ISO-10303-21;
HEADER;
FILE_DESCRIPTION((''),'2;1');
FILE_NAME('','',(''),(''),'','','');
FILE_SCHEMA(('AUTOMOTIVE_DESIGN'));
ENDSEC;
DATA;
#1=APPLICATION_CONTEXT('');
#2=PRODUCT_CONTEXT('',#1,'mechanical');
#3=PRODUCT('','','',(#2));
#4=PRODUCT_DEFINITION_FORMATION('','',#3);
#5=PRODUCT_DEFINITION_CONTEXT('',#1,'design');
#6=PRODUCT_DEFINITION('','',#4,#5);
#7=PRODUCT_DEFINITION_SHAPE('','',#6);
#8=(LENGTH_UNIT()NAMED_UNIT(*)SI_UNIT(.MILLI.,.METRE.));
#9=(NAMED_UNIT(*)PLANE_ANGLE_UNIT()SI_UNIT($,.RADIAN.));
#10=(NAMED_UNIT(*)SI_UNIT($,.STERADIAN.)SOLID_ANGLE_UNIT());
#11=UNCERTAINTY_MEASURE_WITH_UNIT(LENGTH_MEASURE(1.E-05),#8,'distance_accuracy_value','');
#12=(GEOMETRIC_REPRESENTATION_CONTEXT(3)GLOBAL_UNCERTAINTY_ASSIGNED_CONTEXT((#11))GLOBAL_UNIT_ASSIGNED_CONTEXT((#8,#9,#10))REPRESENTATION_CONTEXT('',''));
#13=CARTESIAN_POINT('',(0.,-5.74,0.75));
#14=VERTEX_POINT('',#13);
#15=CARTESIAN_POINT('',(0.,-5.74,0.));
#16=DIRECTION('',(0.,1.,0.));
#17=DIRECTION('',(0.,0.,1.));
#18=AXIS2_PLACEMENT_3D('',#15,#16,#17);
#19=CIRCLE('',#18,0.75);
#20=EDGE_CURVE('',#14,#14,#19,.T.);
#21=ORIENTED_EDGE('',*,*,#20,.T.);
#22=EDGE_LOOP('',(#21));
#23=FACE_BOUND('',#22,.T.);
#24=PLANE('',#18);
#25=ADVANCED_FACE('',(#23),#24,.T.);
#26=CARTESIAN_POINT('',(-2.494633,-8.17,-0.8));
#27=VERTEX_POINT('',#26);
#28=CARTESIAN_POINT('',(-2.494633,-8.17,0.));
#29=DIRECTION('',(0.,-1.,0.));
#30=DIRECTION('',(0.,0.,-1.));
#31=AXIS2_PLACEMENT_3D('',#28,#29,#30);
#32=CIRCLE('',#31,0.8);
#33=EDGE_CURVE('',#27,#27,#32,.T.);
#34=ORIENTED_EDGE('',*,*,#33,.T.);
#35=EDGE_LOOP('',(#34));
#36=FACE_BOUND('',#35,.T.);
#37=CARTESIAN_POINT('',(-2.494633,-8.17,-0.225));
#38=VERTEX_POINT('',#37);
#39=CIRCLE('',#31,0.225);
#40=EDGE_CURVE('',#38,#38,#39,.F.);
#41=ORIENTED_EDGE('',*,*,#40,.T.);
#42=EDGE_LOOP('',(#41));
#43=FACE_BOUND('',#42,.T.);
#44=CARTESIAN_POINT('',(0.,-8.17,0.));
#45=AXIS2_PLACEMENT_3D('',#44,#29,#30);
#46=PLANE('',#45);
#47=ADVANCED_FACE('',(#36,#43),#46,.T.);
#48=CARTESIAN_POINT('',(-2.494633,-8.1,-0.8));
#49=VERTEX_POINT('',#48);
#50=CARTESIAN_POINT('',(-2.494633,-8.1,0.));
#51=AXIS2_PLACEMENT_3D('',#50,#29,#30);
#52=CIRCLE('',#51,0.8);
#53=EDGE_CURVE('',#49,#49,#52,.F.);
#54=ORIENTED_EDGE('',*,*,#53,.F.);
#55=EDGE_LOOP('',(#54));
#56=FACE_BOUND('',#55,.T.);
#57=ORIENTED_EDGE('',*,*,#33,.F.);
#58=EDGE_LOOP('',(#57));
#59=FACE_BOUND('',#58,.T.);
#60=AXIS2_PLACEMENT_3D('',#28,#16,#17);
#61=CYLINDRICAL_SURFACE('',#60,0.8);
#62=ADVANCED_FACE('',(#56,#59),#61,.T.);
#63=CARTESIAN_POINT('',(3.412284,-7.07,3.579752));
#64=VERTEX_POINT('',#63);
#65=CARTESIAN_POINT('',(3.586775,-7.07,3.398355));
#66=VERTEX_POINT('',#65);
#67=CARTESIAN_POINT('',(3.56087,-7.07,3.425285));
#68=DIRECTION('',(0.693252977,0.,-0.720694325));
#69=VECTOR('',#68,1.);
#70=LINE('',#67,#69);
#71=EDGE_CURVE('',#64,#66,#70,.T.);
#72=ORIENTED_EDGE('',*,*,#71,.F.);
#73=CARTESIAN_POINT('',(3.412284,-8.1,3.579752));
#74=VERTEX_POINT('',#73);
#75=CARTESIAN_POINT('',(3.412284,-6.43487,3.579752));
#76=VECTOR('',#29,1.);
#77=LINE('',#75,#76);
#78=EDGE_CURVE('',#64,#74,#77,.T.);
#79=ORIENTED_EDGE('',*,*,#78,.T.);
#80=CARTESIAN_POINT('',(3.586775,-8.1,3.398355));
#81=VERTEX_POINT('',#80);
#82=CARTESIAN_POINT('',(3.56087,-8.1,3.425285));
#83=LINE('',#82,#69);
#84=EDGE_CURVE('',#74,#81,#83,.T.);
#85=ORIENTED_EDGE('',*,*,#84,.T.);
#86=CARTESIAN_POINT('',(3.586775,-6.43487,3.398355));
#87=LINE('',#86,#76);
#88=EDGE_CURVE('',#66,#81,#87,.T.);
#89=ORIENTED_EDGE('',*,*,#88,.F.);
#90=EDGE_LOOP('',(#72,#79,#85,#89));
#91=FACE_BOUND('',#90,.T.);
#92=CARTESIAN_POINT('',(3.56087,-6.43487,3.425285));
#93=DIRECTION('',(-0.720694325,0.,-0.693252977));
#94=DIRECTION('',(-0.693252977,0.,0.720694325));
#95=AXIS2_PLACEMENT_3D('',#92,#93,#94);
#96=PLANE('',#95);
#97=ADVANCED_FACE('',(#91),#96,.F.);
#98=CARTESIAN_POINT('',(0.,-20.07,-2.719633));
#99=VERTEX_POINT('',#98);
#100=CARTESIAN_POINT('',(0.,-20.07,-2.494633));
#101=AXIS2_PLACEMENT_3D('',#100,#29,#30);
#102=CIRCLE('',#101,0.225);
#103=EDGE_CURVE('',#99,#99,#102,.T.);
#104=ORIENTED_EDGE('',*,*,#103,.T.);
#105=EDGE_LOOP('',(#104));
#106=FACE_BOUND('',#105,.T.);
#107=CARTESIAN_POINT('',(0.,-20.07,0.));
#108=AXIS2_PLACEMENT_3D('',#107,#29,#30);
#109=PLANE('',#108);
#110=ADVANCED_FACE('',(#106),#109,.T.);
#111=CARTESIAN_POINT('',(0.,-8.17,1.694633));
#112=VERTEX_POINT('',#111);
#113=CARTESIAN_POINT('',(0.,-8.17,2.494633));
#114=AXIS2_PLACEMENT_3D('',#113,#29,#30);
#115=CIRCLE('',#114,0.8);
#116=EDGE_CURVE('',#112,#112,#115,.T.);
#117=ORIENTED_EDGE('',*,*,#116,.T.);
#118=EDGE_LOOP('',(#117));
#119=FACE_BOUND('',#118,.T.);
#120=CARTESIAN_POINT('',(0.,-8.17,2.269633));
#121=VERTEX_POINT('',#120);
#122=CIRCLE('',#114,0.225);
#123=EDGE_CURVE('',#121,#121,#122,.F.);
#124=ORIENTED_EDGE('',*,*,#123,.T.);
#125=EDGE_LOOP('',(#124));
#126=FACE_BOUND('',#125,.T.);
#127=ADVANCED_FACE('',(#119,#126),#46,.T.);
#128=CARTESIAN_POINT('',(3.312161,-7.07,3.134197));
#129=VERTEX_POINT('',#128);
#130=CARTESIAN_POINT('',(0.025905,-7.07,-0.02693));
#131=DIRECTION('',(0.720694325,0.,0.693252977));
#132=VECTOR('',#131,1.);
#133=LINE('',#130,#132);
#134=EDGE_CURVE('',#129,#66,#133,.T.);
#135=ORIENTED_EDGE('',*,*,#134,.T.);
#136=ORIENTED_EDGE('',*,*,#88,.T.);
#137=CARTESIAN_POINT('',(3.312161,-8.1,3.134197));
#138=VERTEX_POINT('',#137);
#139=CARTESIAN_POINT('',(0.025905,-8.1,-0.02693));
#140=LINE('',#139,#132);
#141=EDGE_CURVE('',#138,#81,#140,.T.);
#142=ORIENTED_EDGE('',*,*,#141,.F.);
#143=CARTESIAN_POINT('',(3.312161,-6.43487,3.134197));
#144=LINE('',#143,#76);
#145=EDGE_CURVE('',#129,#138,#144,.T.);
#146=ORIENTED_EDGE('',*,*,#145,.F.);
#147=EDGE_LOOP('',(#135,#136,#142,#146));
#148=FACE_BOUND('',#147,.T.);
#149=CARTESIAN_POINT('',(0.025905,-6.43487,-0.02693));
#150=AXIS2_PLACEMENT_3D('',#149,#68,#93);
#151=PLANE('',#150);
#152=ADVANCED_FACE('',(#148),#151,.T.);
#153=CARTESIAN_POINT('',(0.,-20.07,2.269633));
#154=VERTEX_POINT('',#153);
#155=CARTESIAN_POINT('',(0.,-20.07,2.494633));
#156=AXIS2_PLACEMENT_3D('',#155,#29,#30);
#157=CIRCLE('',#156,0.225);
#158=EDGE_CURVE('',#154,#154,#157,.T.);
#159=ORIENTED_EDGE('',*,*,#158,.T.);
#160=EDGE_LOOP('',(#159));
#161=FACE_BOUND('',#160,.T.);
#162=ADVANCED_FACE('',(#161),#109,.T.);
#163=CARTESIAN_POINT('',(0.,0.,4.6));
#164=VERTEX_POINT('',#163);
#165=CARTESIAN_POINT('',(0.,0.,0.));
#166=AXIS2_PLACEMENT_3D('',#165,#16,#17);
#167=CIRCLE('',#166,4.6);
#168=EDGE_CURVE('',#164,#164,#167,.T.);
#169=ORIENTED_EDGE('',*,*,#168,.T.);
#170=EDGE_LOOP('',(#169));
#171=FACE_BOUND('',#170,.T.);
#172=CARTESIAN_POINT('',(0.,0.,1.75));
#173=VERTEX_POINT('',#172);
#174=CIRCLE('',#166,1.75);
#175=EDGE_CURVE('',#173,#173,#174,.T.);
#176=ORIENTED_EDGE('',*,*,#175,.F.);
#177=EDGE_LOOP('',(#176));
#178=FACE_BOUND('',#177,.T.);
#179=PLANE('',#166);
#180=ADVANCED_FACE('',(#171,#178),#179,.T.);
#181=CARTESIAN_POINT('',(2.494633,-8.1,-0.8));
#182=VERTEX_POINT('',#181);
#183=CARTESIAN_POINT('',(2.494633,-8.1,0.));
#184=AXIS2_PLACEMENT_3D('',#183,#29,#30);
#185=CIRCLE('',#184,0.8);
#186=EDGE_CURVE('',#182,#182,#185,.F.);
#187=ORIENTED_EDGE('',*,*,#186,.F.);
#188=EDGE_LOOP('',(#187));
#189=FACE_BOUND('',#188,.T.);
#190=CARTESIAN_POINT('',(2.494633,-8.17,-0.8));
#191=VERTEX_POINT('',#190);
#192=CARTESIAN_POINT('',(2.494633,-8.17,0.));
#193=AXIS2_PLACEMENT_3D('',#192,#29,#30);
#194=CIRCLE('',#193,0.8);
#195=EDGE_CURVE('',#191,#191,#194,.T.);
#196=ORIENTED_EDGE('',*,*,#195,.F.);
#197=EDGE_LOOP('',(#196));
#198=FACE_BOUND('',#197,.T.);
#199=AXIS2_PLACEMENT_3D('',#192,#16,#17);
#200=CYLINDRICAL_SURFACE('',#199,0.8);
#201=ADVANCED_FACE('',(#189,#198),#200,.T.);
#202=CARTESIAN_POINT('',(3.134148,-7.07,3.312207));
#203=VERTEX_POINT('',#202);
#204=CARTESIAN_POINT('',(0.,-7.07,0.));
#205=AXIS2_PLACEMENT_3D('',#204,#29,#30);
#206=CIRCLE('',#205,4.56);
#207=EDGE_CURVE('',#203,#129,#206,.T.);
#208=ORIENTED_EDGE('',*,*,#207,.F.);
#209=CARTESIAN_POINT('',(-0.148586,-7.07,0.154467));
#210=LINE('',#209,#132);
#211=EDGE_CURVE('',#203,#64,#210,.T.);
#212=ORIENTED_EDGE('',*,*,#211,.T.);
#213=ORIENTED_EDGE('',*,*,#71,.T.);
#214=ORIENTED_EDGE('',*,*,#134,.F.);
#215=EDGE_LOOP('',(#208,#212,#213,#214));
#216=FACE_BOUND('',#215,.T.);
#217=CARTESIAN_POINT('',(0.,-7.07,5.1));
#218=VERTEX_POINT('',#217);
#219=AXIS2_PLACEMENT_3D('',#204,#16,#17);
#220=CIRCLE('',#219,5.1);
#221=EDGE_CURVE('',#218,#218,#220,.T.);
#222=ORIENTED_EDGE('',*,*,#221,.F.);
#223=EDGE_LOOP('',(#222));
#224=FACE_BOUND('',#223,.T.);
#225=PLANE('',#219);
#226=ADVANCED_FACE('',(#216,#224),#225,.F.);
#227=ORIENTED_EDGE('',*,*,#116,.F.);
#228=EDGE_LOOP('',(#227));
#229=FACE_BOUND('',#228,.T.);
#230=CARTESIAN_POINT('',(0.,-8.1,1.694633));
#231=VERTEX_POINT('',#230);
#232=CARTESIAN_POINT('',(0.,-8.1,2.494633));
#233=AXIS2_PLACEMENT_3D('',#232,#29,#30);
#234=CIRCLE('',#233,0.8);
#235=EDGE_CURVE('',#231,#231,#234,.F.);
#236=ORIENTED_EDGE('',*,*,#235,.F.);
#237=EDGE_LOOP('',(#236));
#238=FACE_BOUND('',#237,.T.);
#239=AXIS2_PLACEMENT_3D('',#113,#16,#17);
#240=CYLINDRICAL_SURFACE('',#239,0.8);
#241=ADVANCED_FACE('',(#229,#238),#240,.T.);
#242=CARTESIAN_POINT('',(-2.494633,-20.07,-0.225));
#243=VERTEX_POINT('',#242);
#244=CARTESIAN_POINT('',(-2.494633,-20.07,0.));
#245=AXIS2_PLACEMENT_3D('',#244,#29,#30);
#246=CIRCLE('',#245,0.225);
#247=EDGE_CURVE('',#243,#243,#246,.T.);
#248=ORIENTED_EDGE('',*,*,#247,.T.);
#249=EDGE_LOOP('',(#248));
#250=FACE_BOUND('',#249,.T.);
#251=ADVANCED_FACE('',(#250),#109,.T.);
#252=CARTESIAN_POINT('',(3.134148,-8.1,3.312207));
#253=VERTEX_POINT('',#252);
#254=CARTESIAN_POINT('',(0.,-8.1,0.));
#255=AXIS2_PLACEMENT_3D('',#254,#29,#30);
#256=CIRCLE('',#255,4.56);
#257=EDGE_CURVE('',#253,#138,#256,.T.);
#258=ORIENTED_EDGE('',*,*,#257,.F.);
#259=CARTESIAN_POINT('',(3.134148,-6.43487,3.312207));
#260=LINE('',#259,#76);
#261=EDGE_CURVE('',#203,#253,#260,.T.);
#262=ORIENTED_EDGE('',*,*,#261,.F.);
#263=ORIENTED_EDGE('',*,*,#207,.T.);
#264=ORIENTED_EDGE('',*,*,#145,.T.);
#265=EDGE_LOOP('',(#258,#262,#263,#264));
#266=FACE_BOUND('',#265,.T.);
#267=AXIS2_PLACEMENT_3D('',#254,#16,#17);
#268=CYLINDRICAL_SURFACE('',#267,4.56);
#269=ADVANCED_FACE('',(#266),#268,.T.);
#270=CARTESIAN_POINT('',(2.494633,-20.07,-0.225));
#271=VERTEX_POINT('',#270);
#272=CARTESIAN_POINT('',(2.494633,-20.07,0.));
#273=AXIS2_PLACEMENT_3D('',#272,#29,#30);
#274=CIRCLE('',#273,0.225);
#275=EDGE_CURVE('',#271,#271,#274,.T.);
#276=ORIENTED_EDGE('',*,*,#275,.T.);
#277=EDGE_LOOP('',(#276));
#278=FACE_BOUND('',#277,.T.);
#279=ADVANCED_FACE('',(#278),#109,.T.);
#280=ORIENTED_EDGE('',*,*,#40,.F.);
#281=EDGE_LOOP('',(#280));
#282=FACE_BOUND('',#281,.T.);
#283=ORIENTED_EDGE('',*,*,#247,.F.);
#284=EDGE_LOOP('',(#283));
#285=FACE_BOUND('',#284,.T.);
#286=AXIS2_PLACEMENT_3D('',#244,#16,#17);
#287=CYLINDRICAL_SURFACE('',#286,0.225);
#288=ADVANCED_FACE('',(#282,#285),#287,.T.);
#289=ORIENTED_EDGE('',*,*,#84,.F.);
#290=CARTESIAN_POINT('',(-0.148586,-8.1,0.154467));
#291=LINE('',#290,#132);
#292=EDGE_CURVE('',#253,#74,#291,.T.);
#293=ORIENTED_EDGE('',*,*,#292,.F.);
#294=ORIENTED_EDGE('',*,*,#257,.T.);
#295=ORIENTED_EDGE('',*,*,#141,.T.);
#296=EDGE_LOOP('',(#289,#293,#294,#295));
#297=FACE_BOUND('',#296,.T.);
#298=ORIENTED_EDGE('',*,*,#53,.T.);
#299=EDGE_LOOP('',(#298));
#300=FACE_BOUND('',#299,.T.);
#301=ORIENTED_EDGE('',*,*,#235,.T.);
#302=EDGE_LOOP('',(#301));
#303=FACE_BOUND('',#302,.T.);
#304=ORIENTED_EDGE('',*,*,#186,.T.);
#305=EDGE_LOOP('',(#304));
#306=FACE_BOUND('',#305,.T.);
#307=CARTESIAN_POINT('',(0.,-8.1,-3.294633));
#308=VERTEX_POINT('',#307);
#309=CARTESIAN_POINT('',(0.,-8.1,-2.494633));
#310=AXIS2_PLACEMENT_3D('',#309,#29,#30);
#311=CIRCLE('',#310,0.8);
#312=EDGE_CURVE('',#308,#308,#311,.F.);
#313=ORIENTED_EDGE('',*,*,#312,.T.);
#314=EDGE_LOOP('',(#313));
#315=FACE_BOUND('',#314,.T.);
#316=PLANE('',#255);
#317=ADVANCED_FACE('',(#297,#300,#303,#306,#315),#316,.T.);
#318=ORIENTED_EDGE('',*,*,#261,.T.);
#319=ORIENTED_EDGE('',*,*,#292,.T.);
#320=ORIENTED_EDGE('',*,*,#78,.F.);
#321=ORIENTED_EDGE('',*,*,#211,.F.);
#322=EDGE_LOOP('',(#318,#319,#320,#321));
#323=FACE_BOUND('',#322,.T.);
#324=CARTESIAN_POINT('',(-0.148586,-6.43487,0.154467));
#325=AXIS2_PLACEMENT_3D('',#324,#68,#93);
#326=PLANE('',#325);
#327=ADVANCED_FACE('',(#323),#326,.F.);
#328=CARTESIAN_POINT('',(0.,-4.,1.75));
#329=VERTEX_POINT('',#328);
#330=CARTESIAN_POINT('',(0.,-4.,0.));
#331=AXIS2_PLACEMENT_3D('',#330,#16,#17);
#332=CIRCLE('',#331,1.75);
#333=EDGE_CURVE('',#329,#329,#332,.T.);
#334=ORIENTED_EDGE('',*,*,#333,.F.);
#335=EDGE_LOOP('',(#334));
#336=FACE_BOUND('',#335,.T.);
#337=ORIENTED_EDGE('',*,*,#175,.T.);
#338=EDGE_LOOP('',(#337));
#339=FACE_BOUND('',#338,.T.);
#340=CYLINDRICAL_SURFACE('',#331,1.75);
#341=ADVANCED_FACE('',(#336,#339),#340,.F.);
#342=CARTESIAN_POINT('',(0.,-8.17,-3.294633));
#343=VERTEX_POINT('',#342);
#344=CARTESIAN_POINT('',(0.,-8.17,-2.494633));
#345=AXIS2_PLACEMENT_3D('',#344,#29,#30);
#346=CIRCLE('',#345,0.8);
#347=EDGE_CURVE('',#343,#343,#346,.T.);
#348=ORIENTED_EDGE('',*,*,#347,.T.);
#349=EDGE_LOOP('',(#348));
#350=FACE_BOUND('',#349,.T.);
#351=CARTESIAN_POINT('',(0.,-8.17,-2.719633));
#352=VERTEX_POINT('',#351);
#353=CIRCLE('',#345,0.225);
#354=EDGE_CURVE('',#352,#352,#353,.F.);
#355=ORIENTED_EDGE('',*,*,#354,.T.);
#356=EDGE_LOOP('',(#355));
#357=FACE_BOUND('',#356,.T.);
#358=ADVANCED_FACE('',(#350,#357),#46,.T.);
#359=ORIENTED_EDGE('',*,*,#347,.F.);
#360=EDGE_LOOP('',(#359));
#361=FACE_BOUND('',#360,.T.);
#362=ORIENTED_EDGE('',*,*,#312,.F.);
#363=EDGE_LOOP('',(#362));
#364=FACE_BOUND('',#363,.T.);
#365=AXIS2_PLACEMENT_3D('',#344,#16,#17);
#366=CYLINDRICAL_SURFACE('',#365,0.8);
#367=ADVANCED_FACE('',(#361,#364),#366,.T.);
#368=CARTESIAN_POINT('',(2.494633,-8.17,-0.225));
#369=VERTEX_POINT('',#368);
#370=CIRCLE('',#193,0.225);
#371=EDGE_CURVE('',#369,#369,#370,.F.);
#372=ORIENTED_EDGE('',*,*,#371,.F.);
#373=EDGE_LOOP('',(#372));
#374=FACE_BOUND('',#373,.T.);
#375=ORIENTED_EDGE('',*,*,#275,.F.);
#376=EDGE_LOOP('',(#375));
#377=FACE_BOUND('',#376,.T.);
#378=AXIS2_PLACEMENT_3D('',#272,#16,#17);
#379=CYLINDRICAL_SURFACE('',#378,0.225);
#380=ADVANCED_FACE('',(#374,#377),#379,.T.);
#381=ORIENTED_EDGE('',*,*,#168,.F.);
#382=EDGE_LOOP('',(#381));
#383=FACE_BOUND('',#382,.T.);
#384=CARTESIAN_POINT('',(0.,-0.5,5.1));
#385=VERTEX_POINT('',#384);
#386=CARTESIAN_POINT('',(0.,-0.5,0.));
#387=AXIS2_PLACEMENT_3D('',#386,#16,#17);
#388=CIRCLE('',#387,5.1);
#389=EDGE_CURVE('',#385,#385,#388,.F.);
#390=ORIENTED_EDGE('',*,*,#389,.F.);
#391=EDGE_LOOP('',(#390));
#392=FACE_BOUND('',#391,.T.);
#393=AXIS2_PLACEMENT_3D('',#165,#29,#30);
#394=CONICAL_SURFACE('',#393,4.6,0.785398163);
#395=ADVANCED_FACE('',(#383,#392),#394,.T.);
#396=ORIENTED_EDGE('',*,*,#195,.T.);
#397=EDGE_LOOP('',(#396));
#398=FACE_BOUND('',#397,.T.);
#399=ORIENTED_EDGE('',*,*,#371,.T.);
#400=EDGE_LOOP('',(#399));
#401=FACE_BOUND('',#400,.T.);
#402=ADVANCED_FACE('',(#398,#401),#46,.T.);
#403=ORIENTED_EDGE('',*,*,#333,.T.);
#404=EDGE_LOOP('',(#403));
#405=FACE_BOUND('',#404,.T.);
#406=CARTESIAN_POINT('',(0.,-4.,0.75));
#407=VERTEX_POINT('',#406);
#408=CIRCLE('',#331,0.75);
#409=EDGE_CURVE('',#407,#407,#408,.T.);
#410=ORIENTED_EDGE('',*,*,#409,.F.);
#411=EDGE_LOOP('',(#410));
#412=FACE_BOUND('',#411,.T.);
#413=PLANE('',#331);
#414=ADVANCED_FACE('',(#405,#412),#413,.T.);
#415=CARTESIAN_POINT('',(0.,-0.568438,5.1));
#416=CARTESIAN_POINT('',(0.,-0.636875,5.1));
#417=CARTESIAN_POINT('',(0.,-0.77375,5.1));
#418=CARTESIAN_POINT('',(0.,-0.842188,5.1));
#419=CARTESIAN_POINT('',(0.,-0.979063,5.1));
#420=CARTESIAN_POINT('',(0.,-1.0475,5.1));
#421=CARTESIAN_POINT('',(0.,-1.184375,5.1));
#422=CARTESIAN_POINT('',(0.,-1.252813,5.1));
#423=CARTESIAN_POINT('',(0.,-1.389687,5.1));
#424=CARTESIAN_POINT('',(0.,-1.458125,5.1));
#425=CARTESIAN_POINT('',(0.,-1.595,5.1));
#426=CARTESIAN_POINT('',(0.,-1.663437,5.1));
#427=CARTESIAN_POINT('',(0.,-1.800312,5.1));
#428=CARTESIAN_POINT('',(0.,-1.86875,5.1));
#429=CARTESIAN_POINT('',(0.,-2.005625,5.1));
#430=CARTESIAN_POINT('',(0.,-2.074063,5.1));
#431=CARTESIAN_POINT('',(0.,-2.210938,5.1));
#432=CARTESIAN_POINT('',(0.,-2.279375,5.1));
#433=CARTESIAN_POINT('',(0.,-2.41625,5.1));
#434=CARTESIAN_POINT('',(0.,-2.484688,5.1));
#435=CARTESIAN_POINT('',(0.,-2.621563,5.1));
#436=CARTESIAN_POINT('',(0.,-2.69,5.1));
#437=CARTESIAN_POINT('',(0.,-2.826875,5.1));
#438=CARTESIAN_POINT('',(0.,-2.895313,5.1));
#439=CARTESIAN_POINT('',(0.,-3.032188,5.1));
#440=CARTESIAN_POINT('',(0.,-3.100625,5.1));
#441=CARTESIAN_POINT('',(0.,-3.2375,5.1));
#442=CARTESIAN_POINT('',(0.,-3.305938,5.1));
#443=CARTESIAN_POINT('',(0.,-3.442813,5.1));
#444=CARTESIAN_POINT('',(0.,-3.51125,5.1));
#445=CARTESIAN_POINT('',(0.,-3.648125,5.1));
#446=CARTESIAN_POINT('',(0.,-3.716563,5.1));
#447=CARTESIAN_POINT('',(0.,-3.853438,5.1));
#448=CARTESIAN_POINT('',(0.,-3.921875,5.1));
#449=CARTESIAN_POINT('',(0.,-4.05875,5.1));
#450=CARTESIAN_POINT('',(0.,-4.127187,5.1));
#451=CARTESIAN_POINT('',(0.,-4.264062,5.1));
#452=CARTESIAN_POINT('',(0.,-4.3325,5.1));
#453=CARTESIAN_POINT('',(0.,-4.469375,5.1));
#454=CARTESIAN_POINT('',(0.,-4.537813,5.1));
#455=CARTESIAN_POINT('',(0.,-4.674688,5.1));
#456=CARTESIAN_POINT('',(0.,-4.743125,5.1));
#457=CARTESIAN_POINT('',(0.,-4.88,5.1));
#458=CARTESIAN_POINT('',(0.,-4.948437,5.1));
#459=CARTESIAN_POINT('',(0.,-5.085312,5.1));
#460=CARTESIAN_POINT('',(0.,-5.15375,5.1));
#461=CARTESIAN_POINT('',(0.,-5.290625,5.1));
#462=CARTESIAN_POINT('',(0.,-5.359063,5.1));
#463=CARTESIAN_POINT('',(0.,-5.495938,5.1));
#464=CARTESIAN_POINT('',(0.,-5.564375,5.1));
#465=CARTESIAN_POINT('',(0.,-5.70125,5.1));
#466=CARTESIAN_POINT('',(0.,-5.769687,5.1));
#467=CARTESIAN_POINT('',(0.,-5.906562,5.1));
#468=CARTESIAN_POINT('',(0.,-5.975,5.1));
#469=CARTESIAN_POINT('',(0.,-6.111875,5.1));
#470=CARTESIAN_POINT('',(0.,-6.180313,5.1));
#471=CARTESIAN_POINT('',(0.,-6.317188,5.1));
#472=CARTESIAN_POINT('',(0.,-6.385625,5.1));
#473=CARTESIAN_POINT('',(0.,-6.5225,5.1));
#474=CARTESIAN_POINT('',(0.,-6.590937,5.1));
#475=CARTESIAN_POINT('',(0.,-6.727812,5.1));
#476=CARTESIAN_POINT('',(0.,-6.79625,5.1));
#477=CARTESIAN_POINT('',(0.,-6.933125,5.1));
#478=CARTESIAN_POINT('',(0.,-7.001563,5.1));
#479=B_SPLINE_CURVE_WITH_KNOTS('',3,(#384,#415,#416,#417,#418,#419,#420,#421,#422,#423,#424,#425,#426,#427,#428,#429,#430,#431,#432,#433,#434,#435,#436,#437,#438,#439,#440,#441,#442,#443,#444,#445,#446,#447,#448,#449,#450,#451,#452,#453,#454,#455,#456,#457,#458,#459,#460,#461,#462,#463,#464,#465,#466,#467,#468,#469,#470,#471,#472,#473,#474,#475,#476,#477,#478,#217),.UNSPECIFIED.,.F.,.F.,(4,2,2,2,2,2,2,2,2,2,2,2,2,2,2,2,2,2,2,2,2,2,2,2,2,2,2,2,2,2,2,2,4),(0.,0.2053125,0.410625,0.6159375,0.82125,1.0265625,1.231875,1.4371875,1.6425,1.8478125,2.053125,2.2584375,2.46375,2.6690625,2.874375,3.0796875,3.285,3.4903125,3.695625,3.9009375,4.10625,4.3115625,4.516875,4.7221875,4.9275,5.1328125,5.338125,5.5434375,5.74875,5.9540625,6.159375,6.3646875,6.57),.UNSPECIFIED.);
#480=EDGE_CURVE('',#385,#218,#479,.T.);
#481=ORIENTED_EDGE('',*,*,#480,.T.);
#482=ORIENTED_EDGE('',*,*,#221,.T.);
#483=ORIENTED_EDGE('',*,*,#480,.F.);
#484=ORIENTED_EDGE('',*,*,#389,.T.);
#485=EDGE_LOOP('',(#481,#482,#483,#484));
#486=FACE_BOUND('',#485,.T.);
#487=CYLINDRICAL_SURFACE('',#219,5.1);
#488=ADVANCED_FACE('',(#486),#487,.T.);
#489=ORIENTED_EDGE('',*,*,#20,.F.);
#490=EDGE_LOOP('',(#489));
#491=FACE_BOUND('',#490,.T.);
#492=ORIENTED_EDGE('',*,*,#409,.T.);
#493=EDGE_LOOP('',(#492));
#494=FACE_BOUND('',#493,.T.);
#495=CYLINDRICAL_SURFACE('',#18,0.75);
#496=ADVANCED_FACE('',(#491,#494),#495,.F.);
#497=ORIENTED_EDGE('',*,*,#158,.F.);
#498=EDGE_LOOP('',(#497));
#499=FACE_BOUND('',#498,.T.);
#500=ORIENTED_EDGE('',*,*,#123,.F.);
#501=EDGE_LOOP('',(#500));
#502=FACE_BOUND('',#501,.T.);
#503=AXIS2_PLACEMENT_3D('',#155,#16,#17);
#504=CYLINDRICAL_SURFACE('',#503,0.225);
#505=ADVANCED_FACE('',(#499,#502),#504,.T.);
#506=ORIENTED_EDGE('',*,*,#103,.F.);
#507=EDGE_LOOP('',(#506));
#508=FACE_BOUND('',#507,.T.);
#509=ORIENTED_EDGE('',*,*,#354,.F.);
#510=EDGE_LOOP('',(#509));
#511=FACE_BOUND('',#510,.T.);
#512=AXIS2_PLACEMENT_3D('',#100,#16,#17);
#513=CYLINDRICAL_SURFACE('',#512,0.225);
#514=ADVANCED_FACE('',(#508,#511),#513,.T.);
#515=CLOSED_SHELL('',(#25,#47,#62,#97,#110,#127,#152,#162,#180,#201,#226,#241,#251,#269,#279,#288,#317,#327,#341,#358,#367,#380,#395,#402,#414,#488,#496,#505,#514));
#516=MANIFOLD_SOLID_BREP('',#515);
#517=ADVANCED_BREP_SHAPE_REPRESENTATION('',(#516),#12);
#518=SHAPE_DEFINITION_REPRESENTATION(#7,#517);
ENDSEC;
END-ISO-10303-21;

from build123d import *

# Parameters (mm, degrees)
SKETCH1_R           = 5.1
SKETCH1_R_2         = 4.6
SKETCH1_R_3         = 1.75
SKETCH1_R_4         = 0.75
BOSS_EXTRUDE1_DEPTH = 7.07
SKETCH1_5_R         = 0.75
CUT_EXTRUDE1_DEPTH  = 5.74
SKETCH1_6_R         = 1.75
SKETCH1_6_R_2       = 0.75
CUT_EXTRUDE2_DEPTH  = 4
CHAMFER1_SIZE       = 0.5
BOSS_EXTRUDE3_DEPTH = 1.03
BOSS_EXTRUDE4_DEPTH = 1.1
BOSS_EXTRUDE5_DEPTH = 13
BOSS_EXTRUDE6_START = -1.03
BOSS_EXTRUDE6_DEPTH = 1.03


with BuildPart() as part:
    # Sketch1 → Boss-Extrude1 (new body)
    # profile 1 of 4: a face of its own
    with BuildSketch(Plane(origin=(0, 0, 0), x_dir=(1, 0, 0), z_dir=(0, 1, 0))):
        with Locations(Location((0, 0, 0), (0, 0, 270))):
            Circle(SKETCH1_R)
        Circle(SKETCH1_R_2, mode=Mode.SUBTRACT)
    # profile 2 of 4: a face of its own
    with BuildSketch(Plane(origin=(0, 0, 0), x_dir=(1, 0, 0), z_dir=(0, 1, 0))):
        Circle(SKETCH1_R_2)
        Circle(SKETCH1_R_3, mode=Mode.SUBTRACT)
    # profile 3 of 4: a face of its own
    with BuildSketch(Plane(origin=(0, 0, 0), x_dir=(1, 0, 0), z_dir=(0, 1, 0))):
        Circle(SKETCH1_R_3)
        Circle(SKETCH1_R_4, mode=Mode.SUBTRACT)
    # profile 4 of 4: a face of its own
    with BuildSketch(Plane(origin=(0, 0, 0), x_dir=(1, 0, 0), z_dir=(0, 1, 0))):
        Circle(SKETCH1_R_4)
    extrude(amount=-BOSS_EXTRUDE1_DEPTH)

    # Sketch1<5> → Cut-Extrude1 (cut)
    with BuildSketch(Plane(origin=(0, 0, 0), x_dir=(1, 0, 0), z_dir=(0, 1, 0))):
        with Locations(Location((0, 0, 0), (0, 0, 270))):
            Circle(SKETCH1_5_R)
    extrude(amount=-CUT_EXTRUDE1_DEPTH, mode=Mode.SUBTRACT)

    # Sketch1<6> → Cut-Extrude2 (cut)
    with BuildSketch(Plane(origin=(0, 0, 0), x_dir=(1, 0, 0), z_dir=(0, 1, 0))):
        with Locations(Location((0, 0, 0), (0, 0, 270))):
            Circle(SKETCH1_6_R)
        with Locations(Location((0, 0, 0), (0, 0, 270))):
            Circle(SKETCH1_6_R_2, mode=Mode.SUBTRACT)
    extrude(amount=-CUT_EXTRUDE2_DEPTH, mode=Mode.SUBTRACT)

    # Chamfer1
    chamfer1_edges = [part.edges().sort_by_distance(p)[0] for p in [
        (0, 0, -5.1),
    ]]
    chamfer(chamfer1_edges, length=CHAMFER1_SIZE)

    # Sketch2 → Boss-Extrude3 (add)
    with BuildSketch(Plane.XZ.offset(7.07)):
        with BuildLine():
            ThreePointArc((-2.269632805, 0), (-2.494632805, 0.225), (-2.719632805, 0))
            Line((-2.719632805, 0), (-2.269632805, 0))
        make_face()
        with BuildLine():
            Line((-2.269632805, 0), (-2.719632805, 0))
            ThreePointArc((-2.719632805, 0), (-2.494632805, -0.225), (-2.269632805, 0))
        make_face()
        with BuildLine():
            ThreePointArc((-1.694632805, 0), (-2.494632805, 0.8), (-3.294632805, 0))
            Line((-3.294632805, 0), (-2.719632805, 0))
            ThreePointArc((-2.719632805, 0), (-2.494632805, 0.225), (-2.269632805, 0))
            Line((-2.269632805, 0), (-1.694632805, 0))
        make_face()
        with BuildLine():
            Line((-2.719632805, 0), (-3.294632805, 0))
            ThreePointArc((-3.294632805, 0), (-2.494632805, -0.8), (-1.694632805, 0))
            Line((-1.694632805, 0), (-2.269632805, 0))
            ThreePointArc((-2.269632805, 0), (-2.494632805, -0.225), (-2.719632805, 0))
        make_face()
        with BuildLine():
            ThreePointArc((0, -1.694632805), (-0.8, -2.494632805), (0, -3.294632805))
            Line((0, -3.294632805), (0, -2.719632805))
            ThreePointArc((0, -2.719632805), (-0.225, -2.494632805), (0, -2.269632805))
            Line((0, -2.269632805), (0, -1.694632805))
        make_face()
        with BuildLine():
            Line((0, -2.719632805), (0, -3.294632805))
            ThreePointArc((0, -3.294632805), (0.565685425, -3.06031823), (0.8, -2.494632805))
            ThreePointArc((0.8, -2.494632805), (0.565685425, -1.92894738), (0, -1.694632805))
            Line((0, -1.694632805), (0, -2.269632805))
            ThreePointArc((0, -2.269632805), (0.159099026, -2.335533779), (0.225, -2.494632805))
            ThreePointArc((0.225, -2.494632805), (0.159099026, -2.653731831), (0, -2.719632805))
        make_face()
        with BuildLine():
            ThreePointArc((0, -2.269632805), (-0.225, -2.494632805), (0, -2.719632805))
            Line((0, -2.719632805), (0, -2.269632805))
        make_face()
        with BuildLine():
            Line((0, -2.269632805), (0, -2.719632805))
            ThreePointArc((0, -2.719632805), (0.159099026, -2.653731831), (0.225, -2.494632805))
            ThreePointArc((0.225, -2.494632805), (0.159099026, -2.335533779), (0, -2.269632805))
        make_face()
        with BuildLine():
            ThreePointArc((0.225, 2.494632805), (0.159099026, 2.653731831), (0, 2.719632805))
            Line((0, 2.719632805), (0, 2.269632805))
            ThreePointArc((0, 2.269632805), (0.159099026, 2.335533779), (0.225, 2.494632805))
        make_face()
        with BuildLine():
            Line((0, 2.269632805), (0, 2.719632805))
            ThreePointArc((0, 2.719632805), (-0.225, 2.494632805), (0, 2.269632805))
        make_face()
        with BuildLine():
            ThreePointArc((0.8, 2.494632805), (0.565685425, 3.06031823), (0, 3.294632805))
            Line((0, 3.294632805), (0, 2.719632805))
            ThreePointArc((0, 2.719632805), (0.159099026, 2.653731831), (0.225, 2.494632805))
            ThreePointArc((0.225, 2.494632805), (0.159099026, 2.335533779), (0, 2.269632805))
            Line((0, 2.269632805), (0, 1.694632805))
            ThreePointArc((0, 1.694632805), (0.565685425, 1.92894738), (0.8, 2.494632805))
        make_face()
        with BuildLine():
            Line((0, 2.719632805), (0, 3.294632805))
            ThreePointArc((0, 3.294632805), (-0.8, 2.494632805), (0, 1.694632805))
            Line((0, 1.694632805), (0, 2.269632805))
            ThreePointArc((0, 2.269632805), (-0.225, 2.494632805), (0, 2.719632805))
        make_face()
        with BuildLine():
            ThreePointArc((2.269632805, 0), (2.494632805, -0.225), (2.719632805, 0))
            Line((2.719632805, 0), (2.269632805, 0))
        make_face()
        with BuildLine():
            Line((2.269632805, 0), (2.719632805, 0))
            ThreePointArc((2.719632805, 0), (2.494632805, 0.225), (2.269632805, 0))
        make_face()
        with BuildLine():
            ThreePointArc((1.694632805, 0), (2.494632805, -0.8), (3.294632805, 0))
            Line((3.294632805, 0), (2.719632805, 0))
            ThreePointArc((2.719632805, 0), (2.494632805, -0.225), (2.269632805, 0))
            Line((2.269632805, 0), (1.694632805, 0))
        make_face()
        with BuildLine():
            Line((2.719632805, 0), (3.294632805, 0))
            ThreePointArc((3.294632805, 0), (2.494632805, 0.8), (1.694632805, 0))
            Line((1.694632805, 0), (2.269632805, 0))
            ThreePointArc((2.269632805, 0), (2.494632805, 0.225), (2.719632805, 0))
        make_face()
        with BuildLine():
            Line((0, 3.294632805), (0, 4.56))
            ThreePointArc((0, 4.56), (-3.224406922, 3.224406922), (-4.56, 0))
            Line((-4.56, 0), (-3.294632805, 0))
            ThreePointArc((-3.294632805, 0), (-2.494632805, 0.8), (-1.694632805, 0))
            Line((-1.694632805, 0), (0, 0))
            Line((0, 0), (0, 1.694632805))
            ThreePointArc((0, 1.694632805), (-0.8, 2.494632805), (0, 3.294632805))
        make_face()
        with BuildLine():
            Line((-3.294632805, 0), (-4.56, 0))
            ThreePointArc((-4.56, 0), (-3.224406922, -3.224406922), (0, -4.56))
            Line((0, -4.56), (0, -3.294632805))
            ThreePointArc((0, -3.294632805), (-0.8, -2.494632805), (0, -1.694632805))
            Line((0, -1.694632805), (0, 0))
            Line((0, 0), (-1.694632805, 0))
            ThreePointArc((-1.694632805, 0), (-2.494632805, -0.8), (-3.294632805, 0))
        make_face()
        with BuildLine():
            ThreePointArc((0, -4.56), (3.224406922, -3.224406922), (4.56, 0))
            Line((4.56, 0), (3.294632805, 0))
            ThreePointArc((3.294632805, 0), (2.494632805, -0.8), (1.694632805, 0))
            Line((1.694632805, 0), (0, 0))
            Line((0, 0), (0, -1.694632805))
            ThreePointArc((0, -1.694632805), (0.565685425, -1.92894738), (0.8, -2.494632805))
            ThreePointArc((0.8, -2.494632805), (0.565685425, -3.06031823), (0, -3.294632805))
            Line((0, -3.294632805), (0, -4.56))
        make_face()
        with BuildLine():
            ThreePointArc((3.201624221, 3.247029773), (1.730194243, 4.219007926), (0, 4.56))
            Line((0, 4.56), (0, 3.294632805))
            ThreePointArc((0, 3.294632805), (0.565685425, 3.06031823), (0.8, 2.494632805))
            ThreePointArc((0.8, 2.494632805), (0.565685425, 1.92894738), (0, 1.694632805))
            Line((0, 1.694632805), (0, 0))
            Line((0, 0), (1.694632805, 0))
            ThreePointArc((1.694632805, 0), (2.494632805, 0.8), (3.294632805, 0))
            Line((3.294632805, 0), (4.56, 0))
            ThreePointArc((4.56, 0), (4.206721196, 1.759857033), (3.201624221, 3.247029773))
        make_face()
    extrude(amount=BOSS_EXTRUDE3_DEPTH)

    # Sketch2<3> → Boss-Extrude4 (add)
    with BuildSketch(Plane.XZ.offset(7.07)):
        with BuildLine():
            ThreePointArc((-1.694632805, 0), (-2.494632805, 0.8), (-3.294632805, 0))
            Line((-3.294632805, 0), (-2.719632805, 0))
            ThreePointArc((-2.719632805, 0), (-2.494632805, 0.225), (-2.269632805, 0))
            Line((-2.269632805, 0), (-1.694632805, 0))
        make_face()
        with BuildLine():
            Line((-2.719632805, 0), (-3.294632805, 0))
            ThreePointArc((-3.294632805, 0), (-2.494632805, -0.8), (-1.694632805, 0))
            Line((-1.694632805, 0), (-2.269632805, 0))
            ThreePointArc((-2.269632805, 0), (-2.494632805, -0.225), (-2.719632805, 0))
        make_face()
        with BuildLine():
            ThreePointArc((-2.269632805, 0), (-2.494632805, 0.225), (-2.719632805, 0))
            Line((-2.719632805, 0), (-2.269632805, 0))
        make_face()
        with BuildLine():
            Line((-2.269632805, 0), (-2.719632805, 0))
            ThreePointArc((-2.719632805, 0), (-2.494632805, -0.225), (-2.269632805, 0))
        make_face()
        with BuildLine():
            ThreePointArc((0, -2.269632805), (-0.225, -2.494632805), (0, -2.719632805))
            Line((0, -2.719632805), (0, -2.269632805))
        make_face()
        with BuildLine():
            Line((0, -2.269632805), (0, -2.719632805))
            ThreePointArc((0, -2.719632805), (0.159099026, -2.653731831), (0.225, -2.494632805))
            ThreePointArc((0.225, -2.494632805), (0.159099026, -2.335533779), (0, -2.269632805))
        make_face()
        with BuildLine():
            ThreePointArc((0, -1.694632805), (-0.8, -2.494632805), (0, -3.294632805))
            Line((0, -3.294632805), (0, -2.719632805))
            ThreePointArc((0, -2.719632805), (-0.225, -2.494632805), (0, -2.269632805))
            Line((0, -2.269632805), (0, -1.694632805))
        make_face()
        with BuildLine():
            Line((0, -2.719632805), (0, -3.294632805))
            ThreePointArc((0, -3.294632805), (0.565685425, -3.06031823), (0.8, -2.494632805))
            ThreePointArc((0.8, -2.494632805), (0.565685425, -1.92894738), (0, -1.694632805))
            Line((0, -1.694632805), (0, -2.269632805))
            ThreePointArc((0, -2.269632805), (0.159099026, -2.335533779), (0.225, -2.494632805))
            ThreePointArc((0.225, -2.494632805), (0.159099026, -2.653731831), (0, -2.719632805))
        make_face()
        with BuildLine():
            ThreePointArc((2.269632805, 0), (2.494632805, -0.225), (2.719632805, 0))
            Line((2.719632805, 0), (2.269632805, 0))
        make_face()
        with BuildLine():
            Line((2.269632805, 0), (2.719632805, 0))
            ThreePointArc((2.719632805, 0), (2.494632805, 0.225), (2.269632805, 0))
        make_face()
        with BuildLine():
            ThreePointArc((1.694632805, 0), (2.494632805, -0.8), (3.294632805, 0))
            Line((3.294632805, 0), (2.719632805, 0))
            ThreePointArc((2.719632805, 0), (2.494632805, -0.225), (2.269632805, 0))
            Line((2.269632805, 0), (1.694632805, 0))
        make_face()
        with BuildLine():
            Line((2.719632805, 0), (3.294632805, 0))
            ThreePointArc((3.294632805, 0), (2.494632805, 0.8), (1.694632805, 0))
            Line((1.694632805, 0), (2.269632805, 0))
            ThreePointArc((2.269632805, 0), (2.494632805, 0.225), (2.719632805, 0))
        make_face()
        with BuildLine():
            ThreePointArc((0.225, 2.494632805), (0.159099026, 2.653731831), (0, 2.719632805))
            Line((0, 2.719632805), (0, 2.269632805))
            ThreePointArc((0, 2.269632805), (0.159099026, 2.335533779), (0.225, 2.494632805))
        make_face()
        with BuildLine():
            Line((0, 2.269632805), (0, 2.719632805))
            ThreePointArc((0, 2.719632805), (-0.225, 2.494632805), (0, 2.269632805))
        make_face()
        with BuildLine():
            ThreePointArc((0.8, 2.494632805), (0.565685425, 3.06031823), (0, 3.294632805))
            Line((0, 3.294632805), (0, 2.719632805))
            ThreePointArc((0, 2.719632805), (0.159099026, 2.653731831), (0.225, 2.494632805))
            ThreePointArc((0.225, 2.494632805), (0.159099026, 2.335533779), (0, 2.269632805))
            Line((0, 2.269632805), (0, 1.694632805))
            ThreePointArc((0, 1.694632805), (0.565685425, 1.92894738), (0.8, 2.494632805))
        make_face()
        with BuildLine():
            Line((0, 2.719632805), (0, 3.294632805))
            ThreePointArc((0, 3.294632805), (-0.8, 2.494632805), (0, 1.694632805))
            Line((0, 1.694632805), (0, 2.269632805))
            ThreePointArc((0, 2.269632805), (-0.225, 2.494632805), (0, 2.719632805))
        make_face()
    extrude(amount=BOSS_EXTRUDE4_DEPTH)

    # Sketch2<4> → Boss-Extrude5 (add)
    with BuildSketch(Plane.XZ.offset(7.07)):
        with BuildLine():
            ThreePointArc((-2.269632805, 0), (-2.494632805, 0.225), (-2.719632805, 0))
            Line((-2.719632805, 0), (-2.269632805, 0))
        make_face()
        with BuildLine():
            Line((-2.269632805, 0), (-2.719632805, 0))
            ThreePointArc((-2.719632805, 0), (-2.494632805, -0.225), (-2.269632805, 0))
        make_face()
        with BuildLine():
            ThreePointArc((0.225, 2.494632805), (0.159099026, 2.653731831), (0, 2.719632805))
            Line((0, 2.719632805), (0, 2.269632805))
            ThreePointArc((0, 2.269632805), (0.159099026, 2.335533779), (0.225, 2.494632805))
        make_face()
        with BuildLine():
            Line((0, 2.269632805), (0, 2.719632805))
            ThreePointArc((0, 2.719632805), (-0.225, 2.494632805), (0, 2.269632805))
        make_face()
        with BuildLine():
            ThreePointArc((2.269632805, 0), (2.494632805, -0.225), (2.719632805, 0))
            Line((2.719632805, 0), (2.269632805, 0))
        make_face()
        with BuildLine():
            Line((2.269632805, 0), (2.719632805, 0))
            ThreePointArc((2.719632805, 0), (2.494632805, 0.225), (2.269632805, 0))
        make_face()
        with BuildLine():
            ThreePointArc((0, -2.269632805), (-0.225, -2.494632805), (0, -2.719632805))
            Line((0, -2.719632805), (0, -2.269632805))
        make_face()
        with BuildLine():
            Line((0, -2.269632805), (0, -2.719632805))
            ThreePointArc((0, -2.719632805), (0.159099026, -2.653731831), (0.225, -2.494632805))
            ThreePointArc((0.225, -2.494632805), (0.159099026, -2.335533779), (0, -2.269632805))
        make_face()
    extrude(amount=BOSS_EXTRUDE5_DEPTH)

    # Sketch4 → Boss-Extrude6 (add)
    with BuildSketch(Plane.XZ.offset(8.1).offset(BOSS_EXTRUDE6_START)):
        with BuildLine():
            Line((3.412284181, 3.579752451), (3.134148267, 3.312206914))
            ThreePointArc((3.134148267, 3.312206914), (3.179580669, 3.26861848), (3.224406922, 3.224406922))
            ThreePointArc((3.224406922, 3.224406922), (3.268594957, 3.179604851), (3.31216054, 3.134197275))
            Line((3.31216054, 3.134197275), (3.58677462, 3.398355077))
            Line((3.58677462, 3.398355077), (3.412284181, 3.579752451))
        make_face()
    extrude(amount=BOSS_EXTRUDE6_DEPTH)


solid = part.part
